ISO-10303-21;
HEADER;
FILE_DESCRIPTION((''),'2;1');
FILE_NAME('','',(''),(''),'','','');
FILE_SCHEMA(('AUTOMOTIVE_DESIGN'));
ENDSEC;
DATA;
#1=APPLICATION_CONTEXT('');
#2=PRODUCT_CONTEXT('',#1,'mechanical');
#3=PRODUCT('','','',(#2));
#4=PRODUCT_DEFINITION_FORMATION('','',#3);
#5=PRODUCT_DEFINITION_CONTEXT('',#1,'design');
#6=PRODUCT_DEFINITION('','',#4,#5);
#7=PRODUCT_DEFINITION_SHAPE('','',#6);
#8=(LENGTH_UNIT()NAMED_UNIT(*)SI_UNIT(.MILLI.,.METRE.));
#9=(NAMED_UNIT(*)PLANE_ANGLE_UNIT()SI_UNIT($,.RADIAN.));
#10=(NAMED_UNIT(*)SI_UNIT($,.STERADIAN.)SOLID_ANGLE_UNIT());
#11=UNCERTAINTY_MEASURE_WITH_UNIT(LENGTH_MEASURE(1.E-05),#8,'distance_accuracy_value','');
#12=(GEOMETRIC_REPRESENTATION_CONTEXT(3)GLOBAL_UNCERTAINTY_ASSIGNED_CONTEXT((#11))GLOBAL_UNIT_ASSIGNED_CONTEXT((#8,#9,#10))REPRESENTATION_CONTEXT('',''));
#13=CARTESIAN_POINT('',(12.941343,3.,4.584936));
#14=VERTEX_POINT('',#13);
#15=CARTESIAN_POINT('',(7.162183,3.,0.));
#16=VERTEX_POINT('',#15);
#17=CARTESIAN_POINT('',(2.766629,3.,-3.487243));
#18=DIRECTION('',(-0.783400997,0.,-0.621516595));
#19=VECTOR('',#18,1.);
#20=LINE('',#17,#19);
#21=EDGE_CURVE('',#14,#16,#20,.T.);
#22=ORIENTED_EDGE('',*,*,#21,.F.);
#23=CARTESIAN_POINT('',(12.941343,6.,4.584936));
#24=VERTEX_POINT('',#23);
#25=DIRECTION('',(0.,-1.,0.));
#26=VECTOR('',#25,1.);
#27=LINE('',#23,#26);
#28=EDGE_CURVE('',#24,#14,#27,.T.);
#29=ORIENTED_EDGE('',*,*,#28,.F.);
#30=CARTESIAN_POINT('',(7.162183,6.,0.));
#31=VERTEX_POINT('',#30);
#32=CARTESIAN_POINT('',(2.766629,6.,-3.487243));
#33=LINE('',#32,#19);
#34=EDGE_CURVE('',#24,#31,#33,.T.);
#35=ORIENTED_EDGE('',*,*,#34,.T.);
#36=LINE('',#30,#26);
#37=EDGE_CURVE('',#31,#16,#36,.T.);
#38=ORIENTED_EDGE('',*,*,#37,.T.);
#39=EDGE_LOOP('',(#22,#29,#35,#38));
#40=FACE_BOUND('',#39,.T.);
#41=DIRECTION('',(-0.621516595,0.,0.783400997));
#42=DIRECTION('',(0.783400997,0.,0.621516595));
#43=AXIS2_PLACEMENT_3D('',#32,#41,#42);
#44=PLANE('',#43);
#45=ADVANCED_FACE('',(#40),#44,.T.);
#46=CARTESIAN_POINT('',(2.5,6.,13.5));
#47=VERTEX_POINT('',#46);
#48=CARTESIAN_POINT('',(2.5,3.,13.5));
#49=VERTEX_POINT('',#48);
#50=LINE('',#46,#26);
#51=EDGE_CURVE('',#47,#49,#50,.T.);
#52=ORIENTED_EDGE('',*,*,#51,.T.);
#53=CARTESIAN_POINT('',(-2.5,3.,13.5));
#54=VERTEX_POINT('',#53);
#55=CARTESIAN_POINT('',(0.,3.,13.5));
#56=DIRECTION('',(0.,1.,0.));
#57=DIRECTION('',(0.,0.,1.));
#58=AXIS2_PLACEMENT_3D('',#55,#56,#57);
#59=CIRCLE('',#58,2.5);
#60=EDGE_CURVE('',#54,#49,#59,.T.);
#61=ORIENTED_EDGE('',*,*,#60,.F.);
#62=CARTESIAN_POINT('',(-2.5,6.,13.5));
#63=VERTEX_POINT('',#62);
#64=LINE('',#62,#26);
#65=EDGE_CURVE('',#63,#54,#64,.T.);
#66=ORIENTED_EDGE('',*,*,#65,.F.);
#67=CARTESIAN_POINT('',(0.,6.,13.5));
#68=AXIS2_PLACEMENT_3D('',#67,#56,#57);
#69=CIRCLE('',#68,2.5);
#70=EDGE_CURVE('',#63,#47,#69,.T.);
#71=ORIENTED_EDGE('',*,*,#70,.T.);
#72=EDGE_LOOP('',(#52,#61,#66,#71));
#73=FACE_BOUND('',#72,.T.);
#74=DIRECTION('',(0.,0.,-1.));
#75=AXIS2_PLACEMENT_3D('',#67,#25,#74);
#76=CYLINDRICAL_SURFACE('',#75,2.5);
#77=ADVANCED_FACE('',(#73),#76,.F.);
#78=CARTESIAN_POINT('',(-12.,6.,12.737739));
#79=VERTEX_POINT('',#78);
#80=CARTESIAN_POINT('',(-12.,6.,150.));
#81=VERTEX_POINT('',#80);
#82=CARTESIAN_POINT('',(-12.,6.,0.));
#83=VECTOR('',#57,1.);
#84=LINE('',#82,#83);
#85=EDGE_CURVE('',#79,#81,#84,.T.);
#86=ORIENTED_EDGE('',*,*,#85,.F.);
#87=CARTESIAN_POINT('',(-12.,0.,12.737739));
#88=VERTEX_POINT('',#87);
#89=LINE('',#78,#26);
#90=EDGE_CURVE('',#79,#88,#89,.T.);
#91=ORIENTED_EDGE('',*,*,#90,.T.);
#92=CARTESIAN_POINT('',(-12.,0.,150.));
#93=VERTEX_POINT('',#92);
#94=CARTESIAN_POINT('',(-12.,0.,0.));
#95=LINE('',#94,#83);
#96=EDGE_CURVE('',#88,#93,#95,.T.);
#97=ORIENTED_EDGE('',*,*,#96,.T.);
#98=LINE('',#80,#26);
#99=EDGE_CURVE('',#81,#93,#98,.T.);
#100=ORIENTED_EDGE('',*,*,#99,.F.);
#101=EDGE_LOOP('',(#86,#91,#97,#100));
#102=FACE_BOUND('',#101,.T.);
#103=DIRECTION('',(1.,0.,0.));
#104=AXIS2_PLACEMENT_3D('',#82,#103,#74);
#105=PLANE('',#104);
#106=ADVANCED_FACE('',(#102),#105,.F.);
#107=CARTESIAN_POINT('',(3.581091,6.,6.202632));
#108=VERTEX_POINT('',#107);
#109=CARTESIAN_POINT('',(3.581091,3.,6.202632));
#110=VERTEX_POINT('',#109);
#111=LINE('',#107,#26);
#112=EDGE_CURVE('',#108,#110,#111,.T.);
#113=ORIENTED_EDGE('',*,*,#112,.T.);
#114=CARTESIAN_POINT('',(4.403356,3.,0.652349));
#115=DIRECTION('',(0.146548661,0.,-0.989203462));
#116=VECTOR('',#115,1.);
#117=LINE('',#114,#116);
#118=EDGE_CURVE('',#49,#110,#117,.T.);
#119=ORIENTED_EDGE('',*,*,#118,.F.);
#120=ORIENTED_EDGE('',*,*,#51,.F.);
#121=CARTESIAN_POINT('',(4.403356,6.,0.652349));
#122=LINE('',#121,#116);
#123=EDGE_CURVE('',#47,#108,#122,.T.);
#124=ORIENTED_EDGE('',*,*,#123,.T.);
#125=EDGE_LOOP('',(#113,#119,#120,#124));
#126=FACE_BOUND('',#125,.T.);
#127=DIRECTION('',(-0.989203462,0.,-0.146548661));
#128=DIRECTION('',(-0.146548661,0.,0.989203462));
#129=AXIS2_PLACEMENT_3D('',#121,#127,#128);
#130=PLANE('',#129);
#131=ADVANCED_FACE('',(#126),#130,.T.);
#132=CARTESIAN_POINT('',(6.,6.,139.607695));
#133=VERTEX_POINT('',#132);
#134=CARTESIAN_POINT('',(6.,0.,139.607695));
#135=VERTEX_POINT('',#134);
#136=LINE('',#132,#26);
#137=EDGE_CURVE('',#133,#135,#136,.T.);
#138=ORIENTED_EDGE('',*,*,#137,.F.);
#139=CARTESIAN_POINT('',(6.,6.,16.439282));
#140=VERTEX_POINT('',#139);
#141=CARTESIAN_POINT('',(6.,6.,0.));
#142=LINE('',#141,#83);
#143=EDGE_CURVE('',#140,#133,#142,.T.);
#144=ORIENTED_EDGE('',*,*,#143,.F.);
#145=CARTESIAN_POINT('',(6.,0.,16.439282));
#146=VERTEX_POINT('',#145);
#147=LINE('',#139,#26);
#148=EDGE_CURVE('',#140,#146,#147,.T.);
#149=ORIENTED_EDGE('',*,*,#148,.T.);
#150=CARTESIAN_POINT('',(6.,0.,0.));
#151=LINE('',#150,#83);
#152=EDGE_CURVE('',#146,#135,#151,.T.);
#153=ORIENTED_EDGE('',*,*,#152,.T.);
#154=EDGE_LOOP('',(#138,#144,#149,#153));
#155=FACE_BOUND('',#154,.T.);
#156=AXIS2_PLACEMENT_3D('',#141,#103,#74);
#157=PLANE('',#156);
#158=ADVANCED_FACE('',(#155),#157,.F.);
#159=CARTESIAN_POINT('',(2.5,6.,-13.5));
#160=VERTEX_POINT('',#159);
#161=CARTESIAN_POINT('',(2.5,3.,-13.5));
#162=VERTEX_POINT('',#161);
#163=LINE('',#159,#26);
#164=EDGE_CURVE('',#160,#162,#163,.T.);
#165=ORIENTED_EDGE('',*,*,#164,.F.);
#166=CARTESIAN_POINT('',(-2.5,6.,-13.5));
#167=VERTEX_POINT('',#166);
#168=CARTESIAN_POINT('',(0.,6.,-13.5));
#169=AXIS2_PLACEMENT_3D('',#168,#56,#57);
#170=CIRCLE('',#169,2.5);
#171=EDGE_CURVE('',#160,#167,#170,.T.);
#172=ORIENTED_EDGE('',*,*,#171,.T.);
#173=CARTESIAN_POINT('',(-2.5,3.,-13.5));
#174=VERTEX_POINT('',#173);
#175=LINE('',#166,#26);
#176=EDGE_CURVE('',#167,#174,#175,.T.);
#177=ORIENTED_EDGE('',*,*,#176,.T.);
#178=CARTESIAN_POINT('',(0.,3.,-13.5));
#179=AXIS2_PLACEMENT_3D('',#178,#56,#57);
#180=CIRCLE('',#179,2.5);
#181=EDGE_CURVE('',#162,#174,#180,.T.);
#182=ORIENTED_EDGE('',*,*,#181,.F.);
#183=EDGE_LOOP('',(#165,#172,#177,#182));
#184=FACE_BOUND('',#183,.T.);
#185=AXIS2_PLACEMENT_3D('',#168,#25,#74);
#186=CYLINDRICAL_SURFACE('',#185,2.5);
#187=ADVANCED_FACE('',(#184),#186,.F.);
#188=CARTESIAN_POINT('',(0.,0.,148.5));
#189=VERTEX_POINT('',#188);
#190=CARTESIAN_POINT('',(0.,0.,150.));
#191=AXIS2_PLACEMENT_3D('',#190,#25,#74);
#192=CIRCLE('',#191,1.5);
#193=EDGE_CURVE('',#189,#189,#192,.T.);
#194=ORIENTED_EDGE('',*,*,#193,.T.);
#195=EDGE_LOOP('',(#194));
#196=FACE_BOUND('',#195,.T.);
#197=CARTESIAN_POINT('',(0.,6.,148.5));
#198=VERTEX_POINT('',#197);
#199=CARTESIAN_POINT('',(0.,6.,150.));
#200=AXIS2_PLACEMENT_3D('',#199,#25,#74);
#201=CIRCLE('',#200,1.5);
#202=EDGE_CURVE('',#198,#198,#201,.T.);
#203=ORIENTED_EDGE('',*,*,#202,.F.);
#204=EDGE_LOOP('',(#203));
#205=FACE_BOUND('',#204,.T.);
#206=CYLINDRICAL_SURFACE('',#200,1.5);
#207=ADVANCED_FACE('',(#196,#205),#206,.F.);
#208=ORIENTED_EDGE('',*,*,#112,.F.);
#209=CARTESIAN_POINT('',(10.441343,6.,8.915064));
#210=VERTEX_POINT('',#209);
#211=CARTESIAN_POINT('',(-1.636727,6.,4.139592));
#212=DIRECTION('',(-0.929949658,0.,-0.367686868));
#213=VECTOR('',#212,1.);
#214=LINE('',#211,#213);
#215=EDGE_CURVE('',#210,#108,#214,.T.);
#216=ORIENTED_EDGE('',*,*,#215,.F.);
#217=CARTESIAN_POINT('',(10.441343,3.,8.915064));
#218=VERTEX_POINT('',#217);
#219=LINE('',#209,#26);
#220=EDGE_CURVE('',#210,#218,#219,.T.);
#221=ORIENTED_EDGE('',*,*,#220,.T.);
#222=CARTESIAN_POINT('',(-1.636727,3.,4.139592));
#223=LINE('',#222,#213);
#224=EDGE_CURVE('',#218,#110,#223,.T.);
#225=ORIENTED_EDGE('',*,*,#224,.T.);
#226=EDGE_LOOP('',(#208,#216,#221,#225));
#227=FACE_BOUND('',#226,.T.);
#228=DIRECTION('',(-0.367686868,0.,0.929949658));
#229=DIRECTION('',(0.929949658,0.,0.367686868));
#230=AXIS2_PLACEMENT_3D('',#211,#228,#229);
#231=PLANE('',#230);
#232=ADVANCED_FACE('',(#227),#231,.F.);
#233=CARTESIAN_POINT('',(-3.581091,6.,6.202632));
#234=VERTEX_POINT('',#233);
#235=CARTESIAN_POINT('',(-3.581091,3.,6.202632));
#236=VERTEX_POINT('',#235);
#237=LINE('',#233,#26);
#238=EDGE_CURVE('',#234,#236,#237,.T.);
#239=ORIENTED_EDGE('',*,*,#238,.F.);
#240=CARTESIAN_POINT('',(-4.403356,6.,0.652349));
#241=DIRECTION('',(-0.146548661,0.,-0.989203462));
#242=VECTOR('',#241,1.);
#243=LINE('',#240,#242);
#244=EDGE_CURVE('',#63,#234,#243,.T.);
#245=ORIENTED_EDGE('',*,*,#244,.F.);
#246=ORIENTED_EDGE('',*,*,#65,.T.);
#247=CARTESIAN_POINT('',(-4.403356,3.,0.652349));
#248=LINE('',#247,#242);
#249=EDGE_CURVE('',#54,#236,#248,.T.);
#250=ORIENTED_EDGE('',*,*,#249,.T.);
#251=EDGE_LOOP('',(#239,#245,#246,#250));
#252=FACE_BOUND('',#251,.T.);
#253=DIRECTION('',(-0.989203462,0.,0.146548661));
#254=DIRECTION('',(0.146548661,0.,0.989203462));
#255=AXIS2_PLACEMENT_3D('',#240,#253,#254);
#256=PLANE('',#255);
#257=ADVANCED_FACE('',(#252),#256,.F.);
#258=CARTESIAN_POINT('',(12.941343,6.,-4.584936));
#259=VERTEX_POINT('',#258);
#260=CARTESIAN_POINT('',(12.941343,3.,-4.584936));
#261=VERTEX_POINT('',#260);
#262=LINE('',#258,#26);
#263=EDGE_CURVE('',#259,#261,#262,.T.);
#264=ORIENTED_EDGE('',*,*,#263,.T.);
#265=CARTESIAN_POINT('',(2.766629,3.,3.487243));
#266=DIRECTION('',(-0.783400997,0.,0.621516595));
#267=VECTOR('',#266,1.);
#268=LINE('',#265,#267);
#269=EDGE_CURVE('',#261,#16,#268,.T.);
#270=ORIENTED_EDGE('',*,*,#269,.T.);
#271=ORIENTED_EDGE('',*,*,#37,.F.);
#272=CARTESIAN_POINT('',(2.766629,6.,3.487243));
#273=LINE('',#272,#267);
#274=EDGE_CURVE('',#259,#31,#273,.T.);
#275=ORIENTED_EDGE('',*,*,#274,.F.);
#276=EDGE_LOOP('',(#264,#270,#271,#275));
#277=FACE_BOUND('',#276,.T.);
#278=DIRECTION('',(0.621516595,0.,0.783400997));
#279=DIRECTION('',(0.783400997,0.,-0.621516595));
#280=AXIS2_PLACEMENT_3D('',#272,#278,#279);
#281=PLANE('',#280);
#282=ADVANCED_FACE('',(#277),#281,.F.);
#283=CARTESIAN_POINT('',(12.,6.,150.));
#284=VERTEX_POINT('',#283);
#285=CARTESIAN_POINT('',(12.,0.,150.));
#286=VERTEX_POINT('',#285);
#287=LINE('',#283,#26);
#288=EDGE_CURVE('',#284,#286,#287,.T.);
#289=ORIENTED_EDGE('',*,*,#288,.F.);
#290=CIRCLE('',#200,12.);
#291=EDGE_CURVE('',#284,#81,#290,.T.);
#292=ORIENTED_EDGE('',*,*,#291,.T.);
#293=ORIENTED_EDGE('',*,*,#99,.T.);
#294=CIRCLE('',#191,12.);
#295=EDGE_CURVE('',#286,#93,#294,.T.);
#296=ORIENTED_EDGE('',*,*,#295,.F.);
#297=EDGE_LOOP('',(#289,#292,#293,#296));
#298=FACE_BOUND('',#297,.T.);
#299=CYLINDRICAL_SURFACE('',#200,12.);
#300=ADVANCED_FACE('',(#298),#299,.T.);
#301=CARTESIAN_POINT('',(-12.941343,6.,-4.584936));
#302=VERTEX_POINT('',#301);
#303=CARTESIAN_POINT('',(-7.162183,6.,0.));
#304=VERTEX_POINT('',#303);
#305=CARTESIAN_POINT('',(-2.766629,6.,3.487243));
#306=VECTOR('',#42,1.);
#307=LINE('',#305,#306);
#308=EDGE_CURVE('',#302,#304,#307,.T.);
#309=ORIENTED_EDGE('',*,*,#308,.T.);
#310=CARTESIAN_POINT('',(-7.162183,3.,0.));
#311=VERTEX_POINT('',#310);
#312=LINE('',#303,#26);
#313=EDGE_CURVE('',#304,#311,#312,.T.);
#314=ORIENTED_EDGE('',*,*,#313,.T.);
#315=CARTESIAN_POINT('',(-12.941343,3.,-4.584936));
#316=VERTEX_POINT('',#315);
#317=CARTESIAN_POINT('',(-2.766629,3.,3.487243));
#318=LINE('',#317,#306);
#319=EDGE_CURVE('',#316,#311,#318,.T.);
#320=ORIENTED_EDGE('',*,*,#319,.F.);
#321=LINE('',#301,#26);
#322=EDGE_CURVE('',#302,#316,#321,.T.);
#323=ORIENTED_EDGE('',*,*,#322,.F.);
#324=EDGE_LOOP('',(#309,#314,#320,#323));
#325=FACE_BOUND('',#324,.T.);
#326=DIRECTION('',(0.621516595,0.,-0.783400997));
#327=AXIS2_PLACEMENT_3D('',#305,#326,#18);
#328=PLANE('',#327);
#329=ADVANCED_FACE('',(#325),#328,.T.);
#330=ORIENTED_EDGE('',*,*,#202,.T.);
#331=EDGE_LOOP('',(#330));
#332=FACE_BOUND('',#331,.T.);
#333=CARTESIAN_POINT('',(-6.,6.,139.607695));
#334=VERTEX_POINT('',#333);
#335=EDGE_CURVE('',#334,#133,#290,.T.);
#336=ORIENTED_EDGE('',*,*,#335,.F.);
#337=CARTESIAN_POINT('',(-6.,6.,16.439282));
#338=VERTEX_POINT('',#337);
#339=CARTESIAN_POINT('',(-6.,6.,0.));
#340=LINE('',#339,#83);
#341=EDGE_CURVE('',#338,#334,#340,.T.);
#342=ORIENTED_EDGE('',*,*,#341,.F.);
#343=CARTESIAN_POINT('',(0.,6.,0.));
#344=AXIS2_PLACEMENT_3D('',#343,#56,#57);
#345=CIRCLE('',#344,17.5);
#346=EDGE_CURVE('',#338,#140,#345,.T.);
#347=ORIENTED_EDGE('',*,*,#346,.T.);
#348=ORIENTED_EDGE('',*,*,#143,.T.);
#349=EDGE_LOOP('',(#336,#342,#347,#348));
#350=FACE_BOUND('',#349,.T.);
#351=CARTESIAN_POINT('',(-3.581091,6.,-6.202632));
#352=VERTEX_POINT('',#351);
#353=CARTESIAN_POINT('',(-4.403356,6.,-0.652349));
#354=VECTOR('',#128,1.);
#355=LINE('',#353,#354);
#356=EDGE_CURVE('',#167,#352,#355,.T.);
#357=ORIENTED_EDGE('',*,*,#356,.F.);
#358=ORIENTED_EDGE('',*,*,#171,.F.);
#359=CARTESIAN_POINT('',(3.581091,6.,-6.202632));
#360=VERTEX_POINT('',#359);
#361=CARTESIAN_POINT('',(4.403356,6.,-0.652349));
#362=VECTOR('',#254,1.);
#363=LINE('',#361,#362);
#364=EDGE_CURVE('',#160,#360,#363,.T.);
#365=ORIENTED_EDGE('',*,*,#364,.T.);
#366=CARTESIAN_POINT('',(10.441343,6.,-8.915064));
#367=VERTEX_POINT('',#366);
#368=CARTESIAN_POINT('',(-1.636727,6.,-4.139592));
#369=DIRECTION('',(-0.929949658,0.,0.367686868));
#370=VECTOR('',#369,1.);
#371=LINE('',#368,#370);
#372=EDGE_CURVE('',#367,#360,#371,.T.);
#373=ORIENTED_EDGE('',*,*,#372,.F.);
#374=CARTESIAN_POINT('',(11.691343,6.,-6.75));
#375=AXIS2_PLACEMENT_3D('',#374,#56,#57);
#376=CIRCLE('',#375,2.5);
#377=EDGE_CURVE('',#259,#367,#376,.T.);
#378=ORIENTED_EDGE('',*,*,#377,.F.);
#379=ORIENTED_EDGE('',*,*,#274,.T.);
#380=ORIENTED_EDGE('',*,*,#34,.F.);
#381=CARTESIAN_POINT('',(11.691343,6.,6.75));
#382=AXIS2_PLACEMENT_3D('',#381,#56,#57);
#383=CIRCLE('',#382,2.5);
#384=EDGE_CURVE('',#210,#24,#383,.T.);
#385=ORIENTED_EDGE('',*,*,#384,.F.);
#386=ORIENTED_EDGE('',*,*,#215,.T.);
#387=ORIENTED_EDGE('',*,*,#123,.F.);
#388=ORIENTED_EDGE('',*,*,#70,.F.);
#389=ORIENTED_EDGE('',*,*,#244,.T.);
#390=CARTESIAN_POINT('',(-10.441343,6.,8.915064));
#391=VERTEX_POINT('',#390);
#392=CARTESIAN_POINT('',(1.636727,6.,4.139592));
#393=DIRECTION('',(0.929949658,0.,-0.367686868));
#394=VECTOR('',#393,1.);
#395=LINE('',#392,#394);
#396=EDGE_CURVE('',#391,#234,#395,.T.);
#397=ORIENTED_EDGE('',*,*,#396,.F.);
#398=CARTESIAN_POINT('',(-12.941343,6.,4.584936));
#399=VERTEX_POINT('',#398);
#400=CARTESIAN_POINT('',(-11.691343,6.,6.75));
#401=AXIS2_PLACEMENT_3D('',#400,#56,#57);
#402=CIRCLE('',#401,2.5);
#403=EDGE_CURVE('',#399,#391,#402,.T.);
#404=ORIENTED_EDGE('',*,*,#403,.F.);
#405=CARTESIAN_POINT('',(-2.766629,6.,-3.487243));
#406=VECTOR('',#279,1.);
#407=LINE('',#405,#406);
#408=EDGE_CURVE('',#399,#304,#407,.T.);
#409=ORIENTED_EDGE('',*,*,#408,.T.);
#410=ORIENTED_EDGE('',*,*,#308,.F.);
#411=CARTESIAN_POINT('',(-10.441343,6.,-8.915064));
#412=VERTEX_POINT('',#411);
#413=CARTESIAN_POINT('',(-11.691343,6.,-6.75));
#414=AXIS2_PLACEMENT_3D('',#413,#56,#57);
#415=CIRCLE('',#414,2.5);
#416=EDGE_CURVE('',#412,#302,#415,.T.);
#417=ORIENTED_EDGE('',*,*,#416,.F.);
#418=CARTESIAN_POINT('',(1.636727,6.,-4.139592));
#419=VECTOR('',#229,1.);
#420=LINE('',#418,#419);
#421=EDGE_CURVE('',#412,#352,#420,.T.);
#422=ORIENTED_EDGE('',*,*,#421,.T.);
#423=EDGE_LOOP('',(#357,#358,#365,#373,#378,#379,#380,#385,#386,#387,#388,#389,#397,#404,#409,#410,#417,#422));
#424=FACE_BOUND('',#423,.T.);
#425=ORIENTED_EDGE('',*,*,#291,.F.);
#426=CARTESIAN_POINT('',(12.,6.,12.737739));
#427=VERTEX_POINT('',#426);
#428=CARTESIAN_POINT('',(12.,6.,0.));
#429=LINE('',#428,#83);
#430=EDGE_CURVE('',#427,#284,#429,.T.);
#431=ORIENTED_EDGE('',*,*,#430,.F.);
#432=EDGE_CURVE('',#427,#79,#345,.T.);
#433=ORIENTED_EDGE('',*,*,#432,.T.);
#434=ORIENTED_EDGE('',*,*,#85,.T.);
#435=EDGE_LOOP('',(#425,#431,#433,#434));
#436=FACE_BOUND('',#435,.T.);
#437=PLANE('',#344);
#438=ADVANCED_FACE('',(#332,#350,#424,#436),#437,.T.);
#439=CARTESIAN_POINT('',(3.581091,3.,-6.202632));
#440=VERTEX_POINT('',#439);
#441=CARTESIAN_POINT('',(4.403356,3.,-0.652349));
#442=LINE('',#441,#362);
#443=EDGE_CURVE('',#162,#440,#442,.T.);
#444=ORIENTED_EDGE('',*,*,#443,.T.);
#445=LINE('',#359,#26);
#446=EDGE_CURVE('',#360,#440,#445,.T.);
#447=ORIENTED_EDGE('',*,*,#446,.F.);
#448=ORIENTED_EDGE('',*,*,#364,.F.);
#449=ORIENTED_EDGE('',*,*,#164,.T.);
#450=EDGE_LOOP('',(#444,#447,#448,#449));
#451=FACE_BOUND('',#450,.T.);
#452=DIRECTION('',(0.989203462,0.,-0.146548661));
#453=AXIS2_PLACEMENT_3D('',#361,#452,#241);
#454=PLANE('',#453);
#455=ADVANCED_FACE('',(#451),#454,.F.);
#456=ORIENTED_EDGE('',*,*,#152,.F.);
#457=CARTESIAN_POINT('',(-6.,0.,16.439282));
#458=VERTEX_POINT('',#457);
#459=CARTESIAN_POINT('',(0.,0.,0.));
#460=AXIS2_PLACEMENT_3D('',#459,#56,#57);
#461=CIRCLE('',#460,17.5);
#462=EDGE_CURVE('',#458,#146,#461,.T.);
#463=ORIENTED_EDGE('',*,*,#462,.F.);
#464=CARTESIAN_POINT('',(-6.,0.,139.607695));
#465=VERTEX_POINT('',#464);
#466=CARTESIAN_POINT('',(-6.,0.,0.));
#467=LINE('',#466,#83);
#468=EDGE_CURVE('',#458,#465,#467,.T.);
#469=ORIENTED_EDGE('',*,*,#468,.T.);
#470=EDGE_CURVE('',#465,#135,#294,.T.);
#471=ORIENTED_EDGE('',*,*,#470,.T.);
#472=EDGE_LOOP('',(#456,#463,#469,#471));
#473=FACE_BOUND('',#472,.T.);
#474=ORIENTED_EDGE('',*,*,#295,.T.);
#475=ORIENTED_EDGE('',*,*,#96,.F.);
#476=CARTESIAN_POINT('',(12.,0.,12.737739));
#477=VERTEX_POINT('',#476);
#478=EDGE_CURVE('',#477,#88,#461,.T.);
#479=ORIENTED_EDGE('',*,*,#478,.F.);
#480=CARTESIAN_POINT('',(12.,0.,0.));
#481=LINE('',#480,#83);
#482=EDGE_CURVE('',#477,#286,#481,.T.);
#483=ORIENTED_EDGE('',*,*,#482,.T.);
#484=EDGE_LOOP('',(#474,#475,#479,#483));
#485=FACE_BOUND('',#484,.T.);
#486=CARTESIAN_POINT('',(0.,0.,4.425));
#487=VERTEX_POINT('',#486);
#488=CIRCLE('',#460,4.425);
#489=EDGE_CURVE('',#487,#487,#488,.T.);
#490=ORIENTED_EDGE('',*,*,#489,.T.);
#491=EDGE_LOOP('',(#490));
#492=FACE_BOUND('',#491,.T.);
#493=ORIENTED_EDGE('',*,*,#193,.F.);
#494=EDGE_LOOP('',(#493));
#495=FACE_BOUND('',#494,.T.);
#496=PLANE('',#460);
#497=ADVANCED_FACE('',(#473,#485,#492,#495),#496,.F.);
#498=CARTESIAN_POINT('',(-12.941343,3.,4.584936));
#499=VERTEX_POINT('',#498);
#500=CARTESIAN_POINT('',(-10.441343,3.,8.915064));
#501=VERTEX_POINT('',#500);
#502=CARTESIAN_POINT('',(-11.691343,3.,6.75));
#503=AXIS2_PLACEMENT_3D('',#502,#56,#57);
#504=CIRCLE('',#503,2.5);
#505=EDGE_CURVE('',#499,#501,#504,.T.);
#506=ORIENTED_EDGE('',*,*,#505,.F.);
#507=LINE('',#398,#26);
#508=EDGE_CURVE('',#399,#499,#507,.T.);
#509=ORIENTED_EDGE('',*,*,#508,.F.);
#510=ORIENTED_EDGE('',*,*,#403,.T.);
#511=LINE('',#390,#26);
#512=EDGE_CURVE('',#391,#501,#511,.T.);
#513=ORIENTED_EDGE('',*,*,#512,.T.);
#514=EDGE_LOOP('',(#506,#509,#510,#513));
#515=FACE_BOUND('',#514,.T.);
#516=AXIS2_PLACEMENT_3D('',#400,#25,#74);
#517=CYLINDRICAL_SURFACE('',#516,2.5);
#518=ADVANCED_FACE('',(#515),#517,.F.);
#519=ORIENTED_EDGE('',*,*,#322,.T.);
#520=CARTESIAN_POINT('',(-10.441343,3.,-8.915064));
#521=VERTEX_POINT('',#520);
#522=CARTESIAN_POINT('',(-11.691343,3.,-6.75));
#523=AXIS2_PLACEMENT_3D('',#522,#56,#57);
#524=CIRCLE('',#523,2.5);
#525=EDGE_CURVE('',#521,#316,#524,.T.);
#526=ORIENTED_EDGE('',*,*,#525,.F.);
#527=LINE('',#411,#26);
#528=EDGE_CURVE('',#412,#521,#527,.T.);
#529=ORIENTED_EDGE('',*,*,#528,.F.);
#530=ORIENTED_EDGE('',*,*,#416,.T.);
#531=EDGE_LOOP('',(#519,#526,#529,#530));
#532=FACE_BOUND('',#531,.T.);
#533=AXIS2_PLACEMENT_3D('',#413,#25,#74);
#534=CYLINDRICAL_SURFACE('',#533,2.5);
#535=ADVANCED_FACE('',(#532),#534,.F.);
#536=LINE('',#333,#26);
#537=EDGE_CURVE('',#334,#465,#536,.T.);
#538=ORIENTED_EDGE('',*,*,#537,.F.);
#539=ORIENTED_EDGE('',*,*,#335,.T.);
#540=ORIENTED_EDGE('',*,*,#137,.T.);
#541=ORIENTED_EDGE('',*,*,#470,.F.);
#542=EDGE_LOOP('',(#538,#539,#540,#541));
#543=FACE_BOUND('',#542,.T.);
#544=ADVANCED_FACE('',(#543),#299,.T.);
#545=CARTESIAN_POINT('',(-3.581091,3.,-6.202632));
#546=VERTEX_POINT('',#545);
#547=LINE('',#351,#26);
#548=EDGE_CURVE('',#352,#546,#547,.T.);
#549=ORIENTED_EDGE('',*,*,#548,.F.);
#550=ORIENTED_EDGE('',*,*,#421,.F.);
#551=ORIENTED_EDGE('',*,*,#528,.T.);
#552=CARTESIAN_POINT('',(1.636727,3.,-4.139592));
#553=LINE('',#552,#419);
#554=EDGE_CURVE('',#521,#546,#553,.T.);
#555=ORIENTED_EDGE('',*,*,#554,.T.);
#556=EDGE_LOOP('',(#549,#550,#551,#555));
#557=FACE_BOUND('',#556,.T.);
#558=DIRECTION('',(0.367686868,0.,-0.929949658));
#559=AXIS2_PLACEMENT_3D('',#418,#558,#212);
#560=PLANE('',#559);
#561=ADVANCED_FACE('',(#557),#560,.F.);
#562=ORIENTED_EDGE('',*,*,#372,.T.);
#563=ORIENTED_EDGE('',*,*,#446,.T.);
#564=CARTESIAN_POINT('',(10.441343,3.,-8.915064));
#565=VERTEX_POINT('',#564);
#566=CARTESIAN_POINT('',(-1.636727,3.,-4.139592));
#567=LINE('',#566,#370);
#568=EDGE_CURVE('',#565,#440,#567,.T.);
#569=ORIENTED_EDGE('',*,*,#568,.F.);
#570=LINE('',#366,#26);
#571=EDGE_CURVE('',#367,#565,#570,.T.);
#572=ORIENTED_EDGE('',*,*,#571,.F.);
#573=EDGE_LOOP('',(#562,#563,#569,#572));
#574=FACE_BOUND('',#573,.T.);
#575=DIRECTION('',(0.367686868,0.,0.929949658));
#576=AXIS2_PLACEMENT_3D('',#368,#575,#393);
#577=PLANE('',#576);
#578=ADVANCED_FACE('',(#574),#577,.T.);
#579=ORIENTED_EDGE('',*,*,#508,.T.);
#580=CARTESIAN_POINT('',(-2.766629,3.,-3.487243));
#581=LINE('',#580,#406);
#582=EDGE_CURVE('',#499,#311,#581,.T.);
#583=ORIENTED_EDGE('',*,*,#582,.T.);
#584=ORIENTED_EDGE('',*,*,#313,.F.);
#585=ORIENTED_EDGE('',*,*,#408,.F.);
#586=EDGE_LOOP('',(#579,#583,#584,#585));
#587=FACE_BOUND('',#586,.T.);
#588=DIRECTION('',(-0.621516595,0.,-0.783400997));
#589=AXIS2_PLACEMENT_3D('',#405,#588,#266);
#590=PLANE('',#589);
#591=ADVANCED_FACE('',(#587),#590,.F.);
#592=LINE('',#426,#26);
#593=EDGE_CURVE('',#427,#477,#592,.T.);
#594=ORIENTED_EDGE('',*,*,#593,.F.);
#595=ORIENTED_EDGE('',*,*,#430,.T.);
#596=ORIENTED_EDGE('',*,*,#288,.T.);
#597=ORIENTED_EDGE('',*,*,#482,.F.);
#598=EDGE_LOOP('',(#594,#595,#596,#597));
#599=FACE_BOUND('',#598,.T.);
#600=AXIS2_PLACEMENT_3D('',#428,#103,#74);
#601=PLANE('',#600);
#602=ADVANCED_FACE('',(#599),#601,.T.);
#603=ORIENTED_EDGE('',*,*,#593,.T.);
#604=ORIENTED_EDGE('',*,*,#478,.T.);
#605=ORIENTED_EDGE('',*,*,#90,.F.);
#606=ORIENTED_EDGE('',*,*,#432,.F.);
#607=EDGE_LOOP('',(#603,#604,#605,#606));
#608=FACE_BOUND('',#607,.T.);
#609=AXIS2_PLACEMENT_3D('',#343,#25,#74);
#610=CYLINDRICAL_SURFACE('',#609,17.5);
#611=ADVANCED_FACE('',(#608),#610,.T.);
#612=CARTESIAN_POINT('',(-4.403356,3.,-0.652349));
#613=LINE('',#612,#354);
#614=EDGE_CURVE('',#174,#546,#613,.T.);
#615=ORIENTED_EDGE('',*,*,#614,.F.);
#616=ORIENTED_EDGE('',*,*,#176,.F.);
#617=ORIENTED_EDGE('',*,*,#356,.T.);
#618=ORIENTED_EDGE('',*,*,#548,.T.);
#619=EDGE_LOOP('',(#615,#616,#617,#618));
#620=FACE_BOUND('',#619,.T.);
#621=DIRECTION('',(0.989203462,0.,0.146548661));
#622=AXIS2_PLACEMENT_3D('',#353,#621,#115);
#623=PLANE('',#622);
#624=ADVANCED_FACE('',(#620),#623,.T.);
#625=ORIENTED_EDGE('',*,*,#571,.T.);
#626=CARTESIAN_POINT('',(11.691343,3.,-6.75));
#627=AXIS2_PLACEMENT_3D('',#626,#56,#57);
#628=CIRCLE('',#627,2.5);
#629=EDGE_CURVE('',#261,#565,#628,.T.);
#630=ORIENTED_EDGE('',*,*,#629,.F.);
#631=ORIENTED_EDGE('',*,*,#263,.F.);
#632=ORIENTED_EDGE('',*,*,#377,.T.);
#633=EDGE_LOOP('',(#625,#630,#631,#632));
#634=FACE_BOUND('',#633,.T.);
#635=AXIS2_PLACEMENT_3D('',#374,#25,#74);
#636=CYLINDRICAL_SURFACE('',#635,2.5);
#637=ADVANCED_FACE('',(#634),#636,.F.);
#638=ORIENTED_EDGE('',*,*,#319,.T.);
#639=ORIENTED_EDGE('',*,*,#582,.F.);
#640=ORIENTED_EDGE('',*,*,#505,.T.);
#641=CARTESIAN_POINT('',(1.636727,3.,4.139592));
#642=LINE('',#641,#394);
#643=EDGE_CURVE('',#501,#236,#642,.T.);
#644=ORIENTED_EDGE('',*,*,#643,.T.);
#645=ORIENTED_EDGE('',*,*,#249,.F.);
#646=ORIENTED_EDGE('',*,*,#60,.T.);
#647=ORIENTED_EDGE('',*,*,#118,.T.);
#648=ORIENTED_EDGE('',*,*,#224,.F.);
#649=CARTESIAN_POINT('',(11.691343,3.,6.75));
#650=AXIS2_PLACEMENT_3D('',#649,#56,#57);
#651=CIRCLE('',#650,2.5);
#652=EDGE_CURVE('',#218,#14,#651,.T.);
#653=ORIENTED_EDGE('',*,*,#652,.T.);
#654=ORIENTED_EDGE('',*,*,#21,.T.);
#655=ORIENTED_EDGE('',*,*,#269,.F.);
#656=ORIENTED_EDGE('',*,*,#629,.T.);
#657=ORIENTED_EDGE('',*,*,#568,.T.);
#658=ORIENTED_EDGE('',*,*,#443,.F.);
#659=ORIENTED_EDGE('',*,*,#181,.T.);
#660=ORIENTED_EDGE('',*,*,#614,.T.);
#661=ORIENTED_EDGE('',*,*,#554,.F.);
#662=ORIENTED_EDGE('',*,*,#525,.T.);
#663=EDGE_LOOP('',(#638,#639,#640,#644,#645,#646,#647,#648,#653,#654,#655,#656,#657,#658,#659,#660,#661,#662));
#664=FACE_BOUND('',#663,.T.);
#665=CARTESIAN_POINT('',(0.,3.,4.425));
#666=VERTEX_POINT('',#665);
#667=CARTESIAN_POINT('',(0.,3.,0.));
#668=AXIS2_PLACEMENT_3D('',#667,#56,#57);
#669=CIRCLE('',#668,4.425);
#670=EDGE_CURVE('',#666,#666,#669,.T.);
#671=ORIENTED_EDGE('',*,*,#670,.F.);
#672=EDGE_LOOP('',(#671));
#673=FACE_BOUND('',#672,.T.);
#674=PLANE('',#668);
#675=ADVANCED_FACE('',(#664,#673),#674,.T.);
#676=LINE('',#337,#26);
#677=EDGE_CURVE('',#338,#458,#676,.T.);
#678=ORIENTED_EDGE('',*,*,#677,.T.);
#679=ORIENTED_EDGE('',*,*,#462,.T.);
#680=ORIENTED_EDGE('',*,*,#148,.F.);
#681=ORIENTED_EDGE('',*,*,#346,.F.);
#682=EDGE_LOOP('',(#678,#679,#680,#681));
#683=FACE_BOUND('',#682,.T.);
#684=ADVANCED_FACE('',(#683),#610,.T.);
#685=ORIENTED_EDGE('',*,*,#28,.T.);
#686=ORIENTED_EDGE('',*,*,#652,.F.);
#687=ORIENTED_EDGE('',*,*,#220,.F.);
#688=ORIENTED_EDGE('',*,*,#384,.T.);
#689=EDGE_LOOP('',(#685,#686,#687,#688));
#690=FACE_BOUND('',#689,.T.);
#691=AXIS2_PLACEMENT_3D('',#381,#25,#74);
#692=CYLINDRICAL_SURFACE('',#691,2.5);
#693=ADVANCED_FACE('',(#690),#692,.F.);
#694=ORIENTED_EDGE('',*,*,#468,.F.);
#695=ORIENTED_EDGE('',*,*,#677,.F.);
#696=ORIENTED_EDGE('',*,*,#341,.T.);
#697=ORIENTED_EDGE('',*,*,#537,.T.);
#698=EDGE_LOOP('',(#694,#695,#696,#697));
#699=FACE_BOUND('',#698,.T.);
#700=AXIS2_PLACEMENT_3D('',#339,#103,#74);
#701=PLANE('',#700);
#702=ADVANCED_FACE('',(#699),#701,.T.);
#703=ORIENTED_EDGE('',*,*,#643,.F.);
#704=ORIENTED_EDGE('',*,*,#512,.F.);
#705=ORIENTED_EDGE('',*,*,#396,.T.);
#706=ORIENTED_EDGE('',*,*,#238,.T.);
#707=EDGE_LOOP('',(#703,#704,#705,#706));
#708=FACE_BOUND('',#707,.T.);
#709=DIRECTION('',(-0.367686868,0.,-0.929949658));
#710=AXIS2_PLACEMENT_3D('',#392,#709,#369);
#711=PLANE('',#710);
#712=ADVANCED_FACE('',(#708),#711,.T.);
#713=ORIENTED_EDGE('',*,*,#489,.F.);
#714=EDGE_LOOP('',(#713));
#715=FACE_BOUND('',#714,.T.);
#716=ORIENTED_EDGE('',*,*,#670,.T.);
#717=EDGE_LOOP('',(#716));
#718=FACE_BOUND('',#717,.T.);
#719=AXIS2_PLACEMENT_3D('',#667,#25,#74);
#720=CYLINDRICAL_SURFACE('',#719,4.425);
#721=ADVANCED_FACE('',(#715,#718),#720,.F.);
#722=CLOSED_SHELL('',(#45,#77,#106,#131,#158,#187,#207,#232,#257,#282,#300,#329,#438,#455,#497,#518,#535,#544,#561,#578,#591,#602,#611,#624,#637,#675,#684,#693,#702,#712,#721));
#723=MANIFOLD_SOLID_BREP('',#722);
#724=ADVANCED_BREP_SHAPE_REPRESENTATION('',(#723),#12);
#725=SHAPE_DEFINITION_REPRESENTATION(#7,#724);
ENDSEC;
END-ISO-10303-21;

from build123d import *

# Parameters (mm, degrees)
SKETCH1_R           = 17.5
BOSS_EXTRUDE3_DEPTH = 6
BOSS_EXTRUDE5_DEPTH = 3
SKETCH2_R           = 1.5
BOSS_EXTRUDE6_DEPTH = 6


with BuildPart() as part:
    # Sketch1 → Boss-Extrude3 (new body)
    with BuildSketch(Plane(origin=(0, 0, 0), x_dir=(1, 0, 0), z_dir=(0, 1, 0))):
        with Locations(Location((0, 0, 0), (0, 0, 270))):
            Circle(SKETCH1_R)
        with BuildLine():
            ThreePointArc((-2.5, 13.5), (-1.767766953, 15.267766953), (0, 16))
            ThreePointArc((0, 16), (1.767766953, 15.267766953), (2.5, 13.5))
            Line((2.5, 13.5), (3.581091494, 6.202632414))
            Line((3.581091494, 6.202632414), (10.441342951, 8.915063509))
            ThreePointArc((10.441342951, 8.915063509), (12.338390564, 9.164814566), (13.856406461, 8))
            ThreePointArc((13.856406461, 8), (14.106157517, 7.397047613), (14.191342951, 6.75))
            ThreePointArc((14.191342951, 6.75), (13.856406461, 5.5), (12.941342951, 4.584936491))
            Line((12.941342951, 4.584936491), (7.162182988, 0))
            Line((7.162182988, 0), (12.941342951, -4.584936491))
            ThreePointArc((12.941342951, -4.584936491), (13.856406461, -5.5), (14.191342951, -6.75))
            ThreePointArc((14.191342951, -6.75), (14.106157517, -7.397047613), (13.856406461, -8))
            ThreePointArc((13.856406461, -8), (12.338390564, -9.164814566), (10.441342951, -8.915063509))
            Line((10.441342951, -8.915063509), (3.581091494, -6.202632414))
            Line((3.581091494, -6.202632414), (2.5, -13.5))
            ThreePointArc((2.5, -13.5), (1.767766953, -15.267766953), (0, -16))
            ThreePointArc((0, -16), (-1.767766953, -15.267766953), (-2.5, -13.5))
            Line((-2.5, -13.5), (-3.581091494, -6.202632414))
            Line((-3.581091494, -6.202632414), (-10.441342951, -8.915063509))
            ThreePointArc((-10.441342951, -8.915063509), (-12.338390564, -9.164814566), (-13.856406461, -8))
            ThreePointArc((-13.856406461, -8), (-14.106157517, -6.102952387), (-12.941342951, -4.584936491))
            Line((-12.941342951, -4.584936491), (-7.162182988, 0))
            Line((-7.162182988, 0), (-12.941342951, 4.584936491))
            ThreePointArc((-12.941342951, 4.584936491), (-14.106157517, 6.102952387), (-13.856406461, 8))
            ThreePointArc((-13.856406461, 8), (-12.338390564, 9.164814566), (-10.441342951, 8.915063509))
            Line((-10.441342951, 8.915063509), (-3.581091494, 6.202632414))
            Line((-3.581091494, 6.202632414), (-2.5, 13.5))
        make_face(mode=Mode.SUBTRACT)
    extrude(amount=BOSS_EXTRUDE3_DEPTH)

    # Sketch1<11> → Boss-Extrude5 (add)
    with BuildSketch(Plane(origin=(0, 0, 0), x_dir=(1, 0, 0), z_dir=(0, 1, 0))):
        with BuildLine():
            ThreePointArc((-9.191342951, 6.75), (-9.526279442, 8), (-10.441342951, 8.915063509))
            Line((-10.441342951, 8.915063509), (-11.691342951, 6.75))
            Line((-11.691342951, 6.75), (-9.526279442, 5.5))
            ThreePointArc((-9.526279442, 5.5), (-9.276528385, 6.102952387), (-9.191342951, 6.75))
        make_face()
        with BuildLine():
            Line((-11.691342951, 6.75), (-10.441342951, 8.915063509))
            ThreePointArc((-10.441342951, 8.915063509), (-12.338390564, 9.164814566), (-13.856406461, 8))
            Line((-13.856406461, 8), (-11.691342951, 6.75))
        make_face()
        with BuildLine():
            ThreePointArc((-12.941342951, 4.584936491), (-11.044295338, 4.335185434), (-9.526279442, 5.5))
            Line((-9.526279442, 5.5), (-11.691342951, 6.75))
            Line((-11.691342951, 6.75), (-12.941342951, 4.584936491))
        make_face()
        with BuildLine():
            Line((-12.941342951, 4.584936491), (-11.691342951, 6.75))
            Line((-11.691342951, 6.75), (-13.856406461, 8))
            ThreePointArc((-13.856406461, 8), (-14.106157517, 6.102952387), (-12.941342951, 4.584936491))
        make_face()
        with BuildLine():
            Line((-4.145427594, 2.393363738), (-3.581091494, 6.202632414))
            Line((-3.581091494, 6.202632414), (-10.441342951, 8.915063509))
            ThreePointArc((-10.441342951, 8.915063509), (-9.526279442, 8), (-9.191342951, 6.75))
            ThreePointArc((-9.191342951, 6.75), (-9.276528385, 6.102952387), (-9.526279442, 5.5))
            Line((-9.526279442, 5.5), (-4.145427594, 2.393363738))
        make_face()
        with BuildLine():
            Line((-7.162182988, 0), (-4.145427594, 2.393363738))
            Line((-4.145427594, 2.393363738), (-9.526279442, 5.5))
            ThreePointArc((-9.526279442, 5.5), (-11.044295338, 4.335185434), (-12.941342951, 4.584936491))
            Line((-12.941342951, 4.584936491), (-7.162182988, 0))
        make_face()
        Polygon((-2.25, 3.897114317), (0, 4.786727475), (-3.581091494, 6.202632414), (-4.145427594, 2.393363738), align=None)
        with BuildLine():
            Line((-3.832162412, 2.2125), (-4.145427594, 2.393363738))
            Line((-4.145427594, 2.393363738), (-4.5, 0))
            Line((-4.5, 0), (-4.145427594, -2.393363738))
            Line((-4.145427594, -2.393363738), (-3.832162412, -2.2125))
            ThreePointArc((-3.832162412, -2.2125), (-4.425, 0), (-3.832162412, 2.2125))
        make_face()
        with BuildLine():
            Line((0, 4.425), (0, 4.786727475))
            Line((0, 4.786727475), (-2.25, 3.897114317))
            Line((-2.25, 3.897114317), (-4.145427594, 2.393363738))
            Line((-4.145427594, 2.393363738), (-3.832162412, 2.2125))
            ThreePointArc((-3.832162412, 2.2125), (-2.2125, 3.832162412), (0, 4.425))
        make_face()
        Polygon((-4.5, 0), (-4.145427594, 2.393363738), (-7.162182988, 0), (-4.145427594, -2.393363738), align=None)
        with BuildLine():
            Line((-4.145427594, -2.393363738), (-7.162182988, 0))
            Line((-7.162182988, 0), (-12.941342951, -4.584936491))
            ThreePointArc((-12.941342951, -4.584936491), (-11.044295338, -4.335185434), (-9.526279442, -5.5))
            Line((-9.526279442, -5.5), (-4.145427594, -2.393363738))
        make_face()
        with BuildLine():
            ThreePointArc((-9.526279442, -5.5), (-11.044295338, -4.335185434), (-12.941342951, -4.584936491))
            Line((-12.941342951, -4.584936491), (-11.691342951, -6.75))
            Line((-11.691342951, -6.75), (-9.526279442, -5.5))
        make_face()
        with BuildLine():
            Line((-11.691342951, -6.75), (-12.941342951, -4.584936491))
            ThreePointArc((-12.941342951, -4.584936491), (-14.106157517, -6.102952387), (-13.856406461, -8))
            Line((-13.856406461, -8), (-11.691342951, -6.75))
        make_face()
        with BuildLine():
            ThreePointArc((-9.191342951, -6.75), (-9.276528385, -6.102952387), (-9.526279442, -5.5))
            Line((-9.526279442, -5.5), (-11.691342951, -6.75))
            Line((-11.691342951, -6.75), (-10.441342951, -8.915063509))
            ThreePointArc((-10.441342951, -8.915063509), (-9.526279442, -8), (-9.191342951, -6.75))
        make_face()
        with BuildLine():
            Line((-10.441342951, -8.915063509), (-11.691342951, -6.75))
            Line((-11.691342951, -6.75), (-13.856406461, -8))
            ThreePointArc((-13.856406461, -8), (-12.338390564, -9.164814566), (-10.441342951, -8.915063509))
        make_face()
        with BuildLine():
            Line((-3.581091494, -6.202632414), (-4.145427594, -2.393363738))
            Line((-4.145427594, -2.393363738), (-9.526279442, -5.5))
            ThreePointArc((-9.526279442, -5.5), (-9.276528385, -6.102952387), (-9.191342951, -6.75))
            ThreePointArc((-9.191342951, -6.75), (-9.526279442, -8), (-10.441342951, -8.915063509))
            Line((-10.441342951, -8.915063509), (-3.581091494, -6.202632414))
        make_face()
        with BuildLine():
            Line((0, -4.786727475), (0, -4.425))
            ThreePointArc((0, -4.425), (-2.2125, -3.832162412), (-3.832162412, -2.2125))
            Line((-3.832162412, -2.2125), (-4.145427594, -2.393363738))
            Line((-4.145427594, -2.393363738), (-2.25, -3.897114317))
            Line((-2.25, -3.897114317), (0, -4.786727475))
        make_face()
        Polygon((-2.25, -3.897114317), (-4.145427594, -2.393363738), (-3.581091494, -6.202632414), (0, -4.786727475), align=None)
        with BuildLine():
            Line((0, -11), (0, -4.786727475))
            Line((0, -4.786727475), (-3.581091494, -6.202632414))
            Line((-3.581091494, -6.202632414), (-2.5, -13.5))
            ThreePointArc((-2.5, -13.5), (-1.767766953, -11.732233047), (0, -11))
        make_face()
        with BuildLine():
            Line((3.581091494, -6.202632414), (0, -4.786727475))
            Line((0, -4.786727475), (0, -11))
            ThreePointArc((0, -11), (1.767766953, -11.732233047), (2.5, -13.5))
            Line((2.5, -13.5), (3.581091494, -6.202632414))
        make_face()
        with BuildLine():
            Line((4.145427594, -2.393363738), (3.832162412, -2.2125))
            ThreePointArc((3.832162412, -2.2125), (2.2125, -3.832162412), (0, -4.425))
            Line((0, -4.425), (0, -4.786727475))
            Line((0, -4.786727475), (2.25, -3.897114317))
            Line((2.25, -3.897114317), (4.145427594, -2.393363738))
        make_face()
        Polygon((3.581091494, -6.202632414), (4.145427594, -2.393363738), (2.25, -3.897114317), (0, -4.786727475), align=None)
        with BuildLine():
            Line((0, -13.5), (0, -11))
            ThreePointArc((0, -11), (-1.767766953, -11.732233047), (-2.5, -13.5))
            Line((-2.5, -13.5), (0, -13.5))
        make_face()
        with BuildLine():
            Line((0, -13.5), (-2.5, -13.5))
            ThreePointArc((-2.5, -13.5), (-1.767766953, -15.267766953), (0, -16))
            Line((0, -16), (0, -13.5))
        make_face()
        with BuildLine():
            ThreePointArc((2.5, -13.5), (1.767766953, -11.732233047), (0, -11))
            Line((0, -11), (0, -13.5))
            Line((0, -13.5), (2.5, -13.5))
        make_face()
        with BuildLine():
            ThreePointArc((0, -16), (1.767766953, -15.267766953), (2.5, -13.5))
            Line((2.5, -13.5), (0, -13.5))
            Line((0, -13.5), (0, -16))
        make_face()
        with BuildLine():
            Line((9.526279442, -5.5), (4.145427594, -2.393363738))
            Line((4.145427594, -2.393363738), (3.581091494, -6.202632414))
            Line((3.581091494, -6.202632414), (10.441342951, -8.915063509))
            ThreePointArc((10.441342951, -8.915063509), (9.276528385, -7.397047613), (9.526279442, -5.5))
        make_face()
        with BuildLine():
            Line((11.691342951, -6.75), (9.526279442, -5.5))
            ThreePointArc((9.526279442, -5.5), (9.276528385, -7.397047613), (10.441342951, -8.915063509))
            Line((10.441342951, -8.915063509), (11.691342951, -6.75))
        make_face()
        with BuildLine():
            Line((13.856406461, -8), (11.691342951, -6.75))
            Line((11.691342951, -6.75), (10.441342951, -8.915063509))
            ThreePointArc((10.441342951, -8.915063509), (12.338390564, -9.164814566), (13.856406461, -8))
        make_face()
        with BuildLine():
            ThreePointArc((14.191342951, -6.75), (13.856406461, -5.5), (12.941342951, -4.584936491))
            Line((12.941342951, -4.584936491), (11.691342951, -6.75))
            Line((11.691342951, -6.75), (13.856406461, -8))
            ThreePointArc((13.856406461, -8), (14.106157517, -7.397047613), (14.191342951, -6.75))
        make_face()
        with BuildLine():
            Line((11.691342951, -6.75), (12.941342951, -4.584936491))
            ThreePointArc((12.941342951, -4.584936491), (11.044295338, -4.335185434), (9.526279442, -5.5))
            Line((9.526279442, -5.5), (11.691342951, -6.75))
        make_face()
        with BuildLine():
            Line((12.941342951, -4.584936491), (7.162182988, 0))
            Line((7.162182988, 0), (4.145427594, -2.393363738))
            Line((4.145427594, -2.393363738), (9.526279442, -5.5))
            ThreePointArc((9.526279442, -5.5), (11.044295338, -4.335185434), (12.941342951, -4.584936491))
        make_face()
        with BuildLine():
            Line((4.5, 0), (4.145427594, 2.393363738))
            Line((4.145427594, 2.393363738), (3.832162412, 2.2125))
            ThreePointArc((3.832162412, 2.2125), (4.274221781, 1.145274275), (4.425, 0))
            ThreePointArc((4.425, 0), (4.274221781, -1.145274275), (3.832162412, -2.2125))
            Line((3.832162412, -2.2125), (4.145427594, -2.393363738))
            Line((4.145427594, -2.393363738), (4.5, 0))
        make_face()
        Polygon((7.162182988, 0), (4.145427594, 2.393363738), (4.5, 0), (4.145427594, -2.393363738), align=None)
        with BuildLine():
            Line((9.526279442, 5.5), (4.145427594, 2.393363738))
            Line((4.145427594, 2.393363738), (7.162182988, 0))
            Line((7.162182988, 0), (12.941342951, 4.584936491))
            ThreePointArc((12.941342951, 4.584936491), (11.044295338, 4.335185434), (9.526279442, 5.5))
        make_face()
        with BuildLine():
            Line((2.25, 3.897114317), (0, 4.786727475))
            Line((0, 4.786727475), (0, 4.425))
            ThreePointArc((0, 4.425), (2.2125, 3.832162412), (3.832162412, 2.2125))
            Line((3.832162412, 2.2125), (4.145427594, 2.393363738))
            Line((4.145427594, 2.393363738), (2.25, 3.897114317))
        make_face()
        Polygon((3.581091494, 6.202632414), (0, 4.786727475), (2.25, 3.897114317), (4.145427594, 2.393363738), align=None)
        with BuildLine():
            Line((10.441342951, 8.915063509), (3.581091494, 6.202632414))
            Line((3.581091494, 6.202632414), (4.145427594, 2.393363738))
            Line((4.145427594, 2.393363738), (9.526279442, 5.5))
            ThreePointArc((9.526279442, 5.5), (9.276528385, 7.397047613), (10.441342951, 8.915063509))
        make_face()
        with BuildLine():
            ThreePointArc((13.856406461, 8), (12.338390564, 9.164814566), (10.441342951, 8.915063509))
            Line((10.441342951, 8.915063509), (11.691342951, 6.75))
            Line((11.691342951, 6.75), (13.856406461, 8))
        make_face()
        with BuildLine():
            Line((11.691342951, 6.75), (10.441342951, 8.915063509))
            ThreePointArc((10.441342951, 8.915063509), (9.276528385, 7.397047613), (9.526279442, 5.5))
            Line((9.526279442, 5.5), (11.691342951, 6.75))
        make_face()
        with BuildLine():
            Line((11.691342951, 6.75), (9.526279442, 5.5))
            ThreePointArc((9.526279442, 5.5), (11.044295338, 4.335185434), (12.941342951, 4.584936491))
            Line((12.941342951, 4.584936491), (11.691342951, 6.75))
        make_face()
        with BuildLine():
            Line((13.856406461, 8), (11.691342951, 6.75))
            Line((11.691342951, 6.75), (12.941342951, 4.584936491))
            ThreePointArc((12.941342951, 4.584936491), (13.856406461, 5.5), (14.191342951, 6.75))
            ThreePointArc((14.191342951, 6.75), (14.106157517, 7.397047613), (13.856406461, 8))
        make_face()
        with BuildLine():
            ThreePointArc((2.5, 13.5), (1.767766953, 11.732233047), (0, 11))
            Line((0, 11), (0, 4.786727475))
            Line((0, 4.786727475), (3.581091494, 6.202632414))
            Line((3.581091494, 6.202632414), (2.5, 13.5))
        make_face()
        with BuildLine():
            Line((0, 4.786727475), (0, 11))
            ThreePointArc((0, 11), (-1.767766953, 11.732233047), (-2.5, 13.5))
            Line((-2.5, 13.5), (-3.581091494, 6.202632414))
            Line((-3.581091494, 6.202632414), (0, 4.786727475))
        make_face()
        with BuildLine():
            Line((-2.5, 13.5), (0, 13.5))
            Line((0, 13.5), (0, 16))
            ThreePointArc((0, 16), (-1.767766953, 15.267766953), (-2.5, 13.5))
        make_face()
        with BuildLine():
            Line((0, 11), (0, 13.5))
            Line((0, 13.5), (-2.5, 13.5))
            ThreePointArc((-2.5, 13.5), (-1.767766953, 11.732233047), (0, 11))
        make_face()
        with BuildLine():
            Line((2.5, 13.5), (0, 13.5))
            Line((0, 13.5), (0, 11))
            ThreePointArc((0, 11), (1.767766953, 11.732233047), (2.5, 13.5))
        make_face()
        with BuildLine():
            Line((0, 16), (0, 13.5))
            Line((0, 13.5), (2.5, 13.5))
            ThreePointArc((2.5, 13.5), (1.767766953, 15.267766953), (0, 16))
        make_face()
    extrude(amount=BOSS_EXTRUDE5_DEPTH)

    # Sketch2 → Boss-Extrude6 (add)
    # profile 1 of 5: a face of its own
    with BuildSketch(Plane.XZ):
        with BuildLine():
            ThreePointArc((6, 16.439282223), (9.188327116, 14.893778729), (12, 12.737739203))
            Line((12, 12.737739203), (12, 150))
            ThreePointArc((12, 150), (10.392304845, 144), (6, 139.607695155))
            Line((6, 139.607695155), (6, 16.439282223))
        make_face()
    # profile 2 of 5: a face of its own
    with BuildSketch(Plane.XZ):
        with BuildLine():
            Line((-12, 150), (-12, 12.737739203))
            ThreePointArc((-12, 12.737739203), (-9.188327116, 14.893778729), (-6, 16.439282223))
            Line((-6, 16.439282223), (-6, 139.607695155))
            ThreePointArc((-6, 139.607695155), (-10.392304845, 144), (-12, 150))
        make_face()
    # profile 3 of 5: a face of its own
    with BuildSketch(Plane.XZ):
        with BuildLine():
            ThreePointArc((12, 150), (0, 162), (-12, 150))
            Line((-12, 150), (-6, 150))
            Line((-6, 150), (-6, 139.607695155))
            ThreePointArc((-6, 139.607695155), (0, 138), (6, 139.607695155))
            Line((6, 139.607695155), (6, 150))
            Line((6, 150), (12, 150))
        make_face()
        with Locations(Location((0, 150, 0), (0, 0, 270))):
            Circle(SKETCH2_R, mode=Mode.SUBTRACT)
    # profile 4 of 5: a face of its own
    with BuildSketch(Plane.XZ):
        with BuildLine():
            ThreePointArc((6, 139.607695155), (10.392304845, 144), (12, 150))
            Line((12, 150), (6, 150))
            Line((6, 150), (6, 139.607695155))
        make_face()
    # profile 5 of 5: a face of its own
    with BuildSketch(Plane.XZ):
        with BuildLine():
            Line((-6, 150), (-12, 150))
            ThreePointArc((-12, 150), (-10.392304845, 144), (-6, 139.607695155))
            Line((-6, 139.607695155), (-6, 150))
        make_face()
    extrude(amount=-BOSS_EXTRUDE6_DEPTH)


solid = part.part
